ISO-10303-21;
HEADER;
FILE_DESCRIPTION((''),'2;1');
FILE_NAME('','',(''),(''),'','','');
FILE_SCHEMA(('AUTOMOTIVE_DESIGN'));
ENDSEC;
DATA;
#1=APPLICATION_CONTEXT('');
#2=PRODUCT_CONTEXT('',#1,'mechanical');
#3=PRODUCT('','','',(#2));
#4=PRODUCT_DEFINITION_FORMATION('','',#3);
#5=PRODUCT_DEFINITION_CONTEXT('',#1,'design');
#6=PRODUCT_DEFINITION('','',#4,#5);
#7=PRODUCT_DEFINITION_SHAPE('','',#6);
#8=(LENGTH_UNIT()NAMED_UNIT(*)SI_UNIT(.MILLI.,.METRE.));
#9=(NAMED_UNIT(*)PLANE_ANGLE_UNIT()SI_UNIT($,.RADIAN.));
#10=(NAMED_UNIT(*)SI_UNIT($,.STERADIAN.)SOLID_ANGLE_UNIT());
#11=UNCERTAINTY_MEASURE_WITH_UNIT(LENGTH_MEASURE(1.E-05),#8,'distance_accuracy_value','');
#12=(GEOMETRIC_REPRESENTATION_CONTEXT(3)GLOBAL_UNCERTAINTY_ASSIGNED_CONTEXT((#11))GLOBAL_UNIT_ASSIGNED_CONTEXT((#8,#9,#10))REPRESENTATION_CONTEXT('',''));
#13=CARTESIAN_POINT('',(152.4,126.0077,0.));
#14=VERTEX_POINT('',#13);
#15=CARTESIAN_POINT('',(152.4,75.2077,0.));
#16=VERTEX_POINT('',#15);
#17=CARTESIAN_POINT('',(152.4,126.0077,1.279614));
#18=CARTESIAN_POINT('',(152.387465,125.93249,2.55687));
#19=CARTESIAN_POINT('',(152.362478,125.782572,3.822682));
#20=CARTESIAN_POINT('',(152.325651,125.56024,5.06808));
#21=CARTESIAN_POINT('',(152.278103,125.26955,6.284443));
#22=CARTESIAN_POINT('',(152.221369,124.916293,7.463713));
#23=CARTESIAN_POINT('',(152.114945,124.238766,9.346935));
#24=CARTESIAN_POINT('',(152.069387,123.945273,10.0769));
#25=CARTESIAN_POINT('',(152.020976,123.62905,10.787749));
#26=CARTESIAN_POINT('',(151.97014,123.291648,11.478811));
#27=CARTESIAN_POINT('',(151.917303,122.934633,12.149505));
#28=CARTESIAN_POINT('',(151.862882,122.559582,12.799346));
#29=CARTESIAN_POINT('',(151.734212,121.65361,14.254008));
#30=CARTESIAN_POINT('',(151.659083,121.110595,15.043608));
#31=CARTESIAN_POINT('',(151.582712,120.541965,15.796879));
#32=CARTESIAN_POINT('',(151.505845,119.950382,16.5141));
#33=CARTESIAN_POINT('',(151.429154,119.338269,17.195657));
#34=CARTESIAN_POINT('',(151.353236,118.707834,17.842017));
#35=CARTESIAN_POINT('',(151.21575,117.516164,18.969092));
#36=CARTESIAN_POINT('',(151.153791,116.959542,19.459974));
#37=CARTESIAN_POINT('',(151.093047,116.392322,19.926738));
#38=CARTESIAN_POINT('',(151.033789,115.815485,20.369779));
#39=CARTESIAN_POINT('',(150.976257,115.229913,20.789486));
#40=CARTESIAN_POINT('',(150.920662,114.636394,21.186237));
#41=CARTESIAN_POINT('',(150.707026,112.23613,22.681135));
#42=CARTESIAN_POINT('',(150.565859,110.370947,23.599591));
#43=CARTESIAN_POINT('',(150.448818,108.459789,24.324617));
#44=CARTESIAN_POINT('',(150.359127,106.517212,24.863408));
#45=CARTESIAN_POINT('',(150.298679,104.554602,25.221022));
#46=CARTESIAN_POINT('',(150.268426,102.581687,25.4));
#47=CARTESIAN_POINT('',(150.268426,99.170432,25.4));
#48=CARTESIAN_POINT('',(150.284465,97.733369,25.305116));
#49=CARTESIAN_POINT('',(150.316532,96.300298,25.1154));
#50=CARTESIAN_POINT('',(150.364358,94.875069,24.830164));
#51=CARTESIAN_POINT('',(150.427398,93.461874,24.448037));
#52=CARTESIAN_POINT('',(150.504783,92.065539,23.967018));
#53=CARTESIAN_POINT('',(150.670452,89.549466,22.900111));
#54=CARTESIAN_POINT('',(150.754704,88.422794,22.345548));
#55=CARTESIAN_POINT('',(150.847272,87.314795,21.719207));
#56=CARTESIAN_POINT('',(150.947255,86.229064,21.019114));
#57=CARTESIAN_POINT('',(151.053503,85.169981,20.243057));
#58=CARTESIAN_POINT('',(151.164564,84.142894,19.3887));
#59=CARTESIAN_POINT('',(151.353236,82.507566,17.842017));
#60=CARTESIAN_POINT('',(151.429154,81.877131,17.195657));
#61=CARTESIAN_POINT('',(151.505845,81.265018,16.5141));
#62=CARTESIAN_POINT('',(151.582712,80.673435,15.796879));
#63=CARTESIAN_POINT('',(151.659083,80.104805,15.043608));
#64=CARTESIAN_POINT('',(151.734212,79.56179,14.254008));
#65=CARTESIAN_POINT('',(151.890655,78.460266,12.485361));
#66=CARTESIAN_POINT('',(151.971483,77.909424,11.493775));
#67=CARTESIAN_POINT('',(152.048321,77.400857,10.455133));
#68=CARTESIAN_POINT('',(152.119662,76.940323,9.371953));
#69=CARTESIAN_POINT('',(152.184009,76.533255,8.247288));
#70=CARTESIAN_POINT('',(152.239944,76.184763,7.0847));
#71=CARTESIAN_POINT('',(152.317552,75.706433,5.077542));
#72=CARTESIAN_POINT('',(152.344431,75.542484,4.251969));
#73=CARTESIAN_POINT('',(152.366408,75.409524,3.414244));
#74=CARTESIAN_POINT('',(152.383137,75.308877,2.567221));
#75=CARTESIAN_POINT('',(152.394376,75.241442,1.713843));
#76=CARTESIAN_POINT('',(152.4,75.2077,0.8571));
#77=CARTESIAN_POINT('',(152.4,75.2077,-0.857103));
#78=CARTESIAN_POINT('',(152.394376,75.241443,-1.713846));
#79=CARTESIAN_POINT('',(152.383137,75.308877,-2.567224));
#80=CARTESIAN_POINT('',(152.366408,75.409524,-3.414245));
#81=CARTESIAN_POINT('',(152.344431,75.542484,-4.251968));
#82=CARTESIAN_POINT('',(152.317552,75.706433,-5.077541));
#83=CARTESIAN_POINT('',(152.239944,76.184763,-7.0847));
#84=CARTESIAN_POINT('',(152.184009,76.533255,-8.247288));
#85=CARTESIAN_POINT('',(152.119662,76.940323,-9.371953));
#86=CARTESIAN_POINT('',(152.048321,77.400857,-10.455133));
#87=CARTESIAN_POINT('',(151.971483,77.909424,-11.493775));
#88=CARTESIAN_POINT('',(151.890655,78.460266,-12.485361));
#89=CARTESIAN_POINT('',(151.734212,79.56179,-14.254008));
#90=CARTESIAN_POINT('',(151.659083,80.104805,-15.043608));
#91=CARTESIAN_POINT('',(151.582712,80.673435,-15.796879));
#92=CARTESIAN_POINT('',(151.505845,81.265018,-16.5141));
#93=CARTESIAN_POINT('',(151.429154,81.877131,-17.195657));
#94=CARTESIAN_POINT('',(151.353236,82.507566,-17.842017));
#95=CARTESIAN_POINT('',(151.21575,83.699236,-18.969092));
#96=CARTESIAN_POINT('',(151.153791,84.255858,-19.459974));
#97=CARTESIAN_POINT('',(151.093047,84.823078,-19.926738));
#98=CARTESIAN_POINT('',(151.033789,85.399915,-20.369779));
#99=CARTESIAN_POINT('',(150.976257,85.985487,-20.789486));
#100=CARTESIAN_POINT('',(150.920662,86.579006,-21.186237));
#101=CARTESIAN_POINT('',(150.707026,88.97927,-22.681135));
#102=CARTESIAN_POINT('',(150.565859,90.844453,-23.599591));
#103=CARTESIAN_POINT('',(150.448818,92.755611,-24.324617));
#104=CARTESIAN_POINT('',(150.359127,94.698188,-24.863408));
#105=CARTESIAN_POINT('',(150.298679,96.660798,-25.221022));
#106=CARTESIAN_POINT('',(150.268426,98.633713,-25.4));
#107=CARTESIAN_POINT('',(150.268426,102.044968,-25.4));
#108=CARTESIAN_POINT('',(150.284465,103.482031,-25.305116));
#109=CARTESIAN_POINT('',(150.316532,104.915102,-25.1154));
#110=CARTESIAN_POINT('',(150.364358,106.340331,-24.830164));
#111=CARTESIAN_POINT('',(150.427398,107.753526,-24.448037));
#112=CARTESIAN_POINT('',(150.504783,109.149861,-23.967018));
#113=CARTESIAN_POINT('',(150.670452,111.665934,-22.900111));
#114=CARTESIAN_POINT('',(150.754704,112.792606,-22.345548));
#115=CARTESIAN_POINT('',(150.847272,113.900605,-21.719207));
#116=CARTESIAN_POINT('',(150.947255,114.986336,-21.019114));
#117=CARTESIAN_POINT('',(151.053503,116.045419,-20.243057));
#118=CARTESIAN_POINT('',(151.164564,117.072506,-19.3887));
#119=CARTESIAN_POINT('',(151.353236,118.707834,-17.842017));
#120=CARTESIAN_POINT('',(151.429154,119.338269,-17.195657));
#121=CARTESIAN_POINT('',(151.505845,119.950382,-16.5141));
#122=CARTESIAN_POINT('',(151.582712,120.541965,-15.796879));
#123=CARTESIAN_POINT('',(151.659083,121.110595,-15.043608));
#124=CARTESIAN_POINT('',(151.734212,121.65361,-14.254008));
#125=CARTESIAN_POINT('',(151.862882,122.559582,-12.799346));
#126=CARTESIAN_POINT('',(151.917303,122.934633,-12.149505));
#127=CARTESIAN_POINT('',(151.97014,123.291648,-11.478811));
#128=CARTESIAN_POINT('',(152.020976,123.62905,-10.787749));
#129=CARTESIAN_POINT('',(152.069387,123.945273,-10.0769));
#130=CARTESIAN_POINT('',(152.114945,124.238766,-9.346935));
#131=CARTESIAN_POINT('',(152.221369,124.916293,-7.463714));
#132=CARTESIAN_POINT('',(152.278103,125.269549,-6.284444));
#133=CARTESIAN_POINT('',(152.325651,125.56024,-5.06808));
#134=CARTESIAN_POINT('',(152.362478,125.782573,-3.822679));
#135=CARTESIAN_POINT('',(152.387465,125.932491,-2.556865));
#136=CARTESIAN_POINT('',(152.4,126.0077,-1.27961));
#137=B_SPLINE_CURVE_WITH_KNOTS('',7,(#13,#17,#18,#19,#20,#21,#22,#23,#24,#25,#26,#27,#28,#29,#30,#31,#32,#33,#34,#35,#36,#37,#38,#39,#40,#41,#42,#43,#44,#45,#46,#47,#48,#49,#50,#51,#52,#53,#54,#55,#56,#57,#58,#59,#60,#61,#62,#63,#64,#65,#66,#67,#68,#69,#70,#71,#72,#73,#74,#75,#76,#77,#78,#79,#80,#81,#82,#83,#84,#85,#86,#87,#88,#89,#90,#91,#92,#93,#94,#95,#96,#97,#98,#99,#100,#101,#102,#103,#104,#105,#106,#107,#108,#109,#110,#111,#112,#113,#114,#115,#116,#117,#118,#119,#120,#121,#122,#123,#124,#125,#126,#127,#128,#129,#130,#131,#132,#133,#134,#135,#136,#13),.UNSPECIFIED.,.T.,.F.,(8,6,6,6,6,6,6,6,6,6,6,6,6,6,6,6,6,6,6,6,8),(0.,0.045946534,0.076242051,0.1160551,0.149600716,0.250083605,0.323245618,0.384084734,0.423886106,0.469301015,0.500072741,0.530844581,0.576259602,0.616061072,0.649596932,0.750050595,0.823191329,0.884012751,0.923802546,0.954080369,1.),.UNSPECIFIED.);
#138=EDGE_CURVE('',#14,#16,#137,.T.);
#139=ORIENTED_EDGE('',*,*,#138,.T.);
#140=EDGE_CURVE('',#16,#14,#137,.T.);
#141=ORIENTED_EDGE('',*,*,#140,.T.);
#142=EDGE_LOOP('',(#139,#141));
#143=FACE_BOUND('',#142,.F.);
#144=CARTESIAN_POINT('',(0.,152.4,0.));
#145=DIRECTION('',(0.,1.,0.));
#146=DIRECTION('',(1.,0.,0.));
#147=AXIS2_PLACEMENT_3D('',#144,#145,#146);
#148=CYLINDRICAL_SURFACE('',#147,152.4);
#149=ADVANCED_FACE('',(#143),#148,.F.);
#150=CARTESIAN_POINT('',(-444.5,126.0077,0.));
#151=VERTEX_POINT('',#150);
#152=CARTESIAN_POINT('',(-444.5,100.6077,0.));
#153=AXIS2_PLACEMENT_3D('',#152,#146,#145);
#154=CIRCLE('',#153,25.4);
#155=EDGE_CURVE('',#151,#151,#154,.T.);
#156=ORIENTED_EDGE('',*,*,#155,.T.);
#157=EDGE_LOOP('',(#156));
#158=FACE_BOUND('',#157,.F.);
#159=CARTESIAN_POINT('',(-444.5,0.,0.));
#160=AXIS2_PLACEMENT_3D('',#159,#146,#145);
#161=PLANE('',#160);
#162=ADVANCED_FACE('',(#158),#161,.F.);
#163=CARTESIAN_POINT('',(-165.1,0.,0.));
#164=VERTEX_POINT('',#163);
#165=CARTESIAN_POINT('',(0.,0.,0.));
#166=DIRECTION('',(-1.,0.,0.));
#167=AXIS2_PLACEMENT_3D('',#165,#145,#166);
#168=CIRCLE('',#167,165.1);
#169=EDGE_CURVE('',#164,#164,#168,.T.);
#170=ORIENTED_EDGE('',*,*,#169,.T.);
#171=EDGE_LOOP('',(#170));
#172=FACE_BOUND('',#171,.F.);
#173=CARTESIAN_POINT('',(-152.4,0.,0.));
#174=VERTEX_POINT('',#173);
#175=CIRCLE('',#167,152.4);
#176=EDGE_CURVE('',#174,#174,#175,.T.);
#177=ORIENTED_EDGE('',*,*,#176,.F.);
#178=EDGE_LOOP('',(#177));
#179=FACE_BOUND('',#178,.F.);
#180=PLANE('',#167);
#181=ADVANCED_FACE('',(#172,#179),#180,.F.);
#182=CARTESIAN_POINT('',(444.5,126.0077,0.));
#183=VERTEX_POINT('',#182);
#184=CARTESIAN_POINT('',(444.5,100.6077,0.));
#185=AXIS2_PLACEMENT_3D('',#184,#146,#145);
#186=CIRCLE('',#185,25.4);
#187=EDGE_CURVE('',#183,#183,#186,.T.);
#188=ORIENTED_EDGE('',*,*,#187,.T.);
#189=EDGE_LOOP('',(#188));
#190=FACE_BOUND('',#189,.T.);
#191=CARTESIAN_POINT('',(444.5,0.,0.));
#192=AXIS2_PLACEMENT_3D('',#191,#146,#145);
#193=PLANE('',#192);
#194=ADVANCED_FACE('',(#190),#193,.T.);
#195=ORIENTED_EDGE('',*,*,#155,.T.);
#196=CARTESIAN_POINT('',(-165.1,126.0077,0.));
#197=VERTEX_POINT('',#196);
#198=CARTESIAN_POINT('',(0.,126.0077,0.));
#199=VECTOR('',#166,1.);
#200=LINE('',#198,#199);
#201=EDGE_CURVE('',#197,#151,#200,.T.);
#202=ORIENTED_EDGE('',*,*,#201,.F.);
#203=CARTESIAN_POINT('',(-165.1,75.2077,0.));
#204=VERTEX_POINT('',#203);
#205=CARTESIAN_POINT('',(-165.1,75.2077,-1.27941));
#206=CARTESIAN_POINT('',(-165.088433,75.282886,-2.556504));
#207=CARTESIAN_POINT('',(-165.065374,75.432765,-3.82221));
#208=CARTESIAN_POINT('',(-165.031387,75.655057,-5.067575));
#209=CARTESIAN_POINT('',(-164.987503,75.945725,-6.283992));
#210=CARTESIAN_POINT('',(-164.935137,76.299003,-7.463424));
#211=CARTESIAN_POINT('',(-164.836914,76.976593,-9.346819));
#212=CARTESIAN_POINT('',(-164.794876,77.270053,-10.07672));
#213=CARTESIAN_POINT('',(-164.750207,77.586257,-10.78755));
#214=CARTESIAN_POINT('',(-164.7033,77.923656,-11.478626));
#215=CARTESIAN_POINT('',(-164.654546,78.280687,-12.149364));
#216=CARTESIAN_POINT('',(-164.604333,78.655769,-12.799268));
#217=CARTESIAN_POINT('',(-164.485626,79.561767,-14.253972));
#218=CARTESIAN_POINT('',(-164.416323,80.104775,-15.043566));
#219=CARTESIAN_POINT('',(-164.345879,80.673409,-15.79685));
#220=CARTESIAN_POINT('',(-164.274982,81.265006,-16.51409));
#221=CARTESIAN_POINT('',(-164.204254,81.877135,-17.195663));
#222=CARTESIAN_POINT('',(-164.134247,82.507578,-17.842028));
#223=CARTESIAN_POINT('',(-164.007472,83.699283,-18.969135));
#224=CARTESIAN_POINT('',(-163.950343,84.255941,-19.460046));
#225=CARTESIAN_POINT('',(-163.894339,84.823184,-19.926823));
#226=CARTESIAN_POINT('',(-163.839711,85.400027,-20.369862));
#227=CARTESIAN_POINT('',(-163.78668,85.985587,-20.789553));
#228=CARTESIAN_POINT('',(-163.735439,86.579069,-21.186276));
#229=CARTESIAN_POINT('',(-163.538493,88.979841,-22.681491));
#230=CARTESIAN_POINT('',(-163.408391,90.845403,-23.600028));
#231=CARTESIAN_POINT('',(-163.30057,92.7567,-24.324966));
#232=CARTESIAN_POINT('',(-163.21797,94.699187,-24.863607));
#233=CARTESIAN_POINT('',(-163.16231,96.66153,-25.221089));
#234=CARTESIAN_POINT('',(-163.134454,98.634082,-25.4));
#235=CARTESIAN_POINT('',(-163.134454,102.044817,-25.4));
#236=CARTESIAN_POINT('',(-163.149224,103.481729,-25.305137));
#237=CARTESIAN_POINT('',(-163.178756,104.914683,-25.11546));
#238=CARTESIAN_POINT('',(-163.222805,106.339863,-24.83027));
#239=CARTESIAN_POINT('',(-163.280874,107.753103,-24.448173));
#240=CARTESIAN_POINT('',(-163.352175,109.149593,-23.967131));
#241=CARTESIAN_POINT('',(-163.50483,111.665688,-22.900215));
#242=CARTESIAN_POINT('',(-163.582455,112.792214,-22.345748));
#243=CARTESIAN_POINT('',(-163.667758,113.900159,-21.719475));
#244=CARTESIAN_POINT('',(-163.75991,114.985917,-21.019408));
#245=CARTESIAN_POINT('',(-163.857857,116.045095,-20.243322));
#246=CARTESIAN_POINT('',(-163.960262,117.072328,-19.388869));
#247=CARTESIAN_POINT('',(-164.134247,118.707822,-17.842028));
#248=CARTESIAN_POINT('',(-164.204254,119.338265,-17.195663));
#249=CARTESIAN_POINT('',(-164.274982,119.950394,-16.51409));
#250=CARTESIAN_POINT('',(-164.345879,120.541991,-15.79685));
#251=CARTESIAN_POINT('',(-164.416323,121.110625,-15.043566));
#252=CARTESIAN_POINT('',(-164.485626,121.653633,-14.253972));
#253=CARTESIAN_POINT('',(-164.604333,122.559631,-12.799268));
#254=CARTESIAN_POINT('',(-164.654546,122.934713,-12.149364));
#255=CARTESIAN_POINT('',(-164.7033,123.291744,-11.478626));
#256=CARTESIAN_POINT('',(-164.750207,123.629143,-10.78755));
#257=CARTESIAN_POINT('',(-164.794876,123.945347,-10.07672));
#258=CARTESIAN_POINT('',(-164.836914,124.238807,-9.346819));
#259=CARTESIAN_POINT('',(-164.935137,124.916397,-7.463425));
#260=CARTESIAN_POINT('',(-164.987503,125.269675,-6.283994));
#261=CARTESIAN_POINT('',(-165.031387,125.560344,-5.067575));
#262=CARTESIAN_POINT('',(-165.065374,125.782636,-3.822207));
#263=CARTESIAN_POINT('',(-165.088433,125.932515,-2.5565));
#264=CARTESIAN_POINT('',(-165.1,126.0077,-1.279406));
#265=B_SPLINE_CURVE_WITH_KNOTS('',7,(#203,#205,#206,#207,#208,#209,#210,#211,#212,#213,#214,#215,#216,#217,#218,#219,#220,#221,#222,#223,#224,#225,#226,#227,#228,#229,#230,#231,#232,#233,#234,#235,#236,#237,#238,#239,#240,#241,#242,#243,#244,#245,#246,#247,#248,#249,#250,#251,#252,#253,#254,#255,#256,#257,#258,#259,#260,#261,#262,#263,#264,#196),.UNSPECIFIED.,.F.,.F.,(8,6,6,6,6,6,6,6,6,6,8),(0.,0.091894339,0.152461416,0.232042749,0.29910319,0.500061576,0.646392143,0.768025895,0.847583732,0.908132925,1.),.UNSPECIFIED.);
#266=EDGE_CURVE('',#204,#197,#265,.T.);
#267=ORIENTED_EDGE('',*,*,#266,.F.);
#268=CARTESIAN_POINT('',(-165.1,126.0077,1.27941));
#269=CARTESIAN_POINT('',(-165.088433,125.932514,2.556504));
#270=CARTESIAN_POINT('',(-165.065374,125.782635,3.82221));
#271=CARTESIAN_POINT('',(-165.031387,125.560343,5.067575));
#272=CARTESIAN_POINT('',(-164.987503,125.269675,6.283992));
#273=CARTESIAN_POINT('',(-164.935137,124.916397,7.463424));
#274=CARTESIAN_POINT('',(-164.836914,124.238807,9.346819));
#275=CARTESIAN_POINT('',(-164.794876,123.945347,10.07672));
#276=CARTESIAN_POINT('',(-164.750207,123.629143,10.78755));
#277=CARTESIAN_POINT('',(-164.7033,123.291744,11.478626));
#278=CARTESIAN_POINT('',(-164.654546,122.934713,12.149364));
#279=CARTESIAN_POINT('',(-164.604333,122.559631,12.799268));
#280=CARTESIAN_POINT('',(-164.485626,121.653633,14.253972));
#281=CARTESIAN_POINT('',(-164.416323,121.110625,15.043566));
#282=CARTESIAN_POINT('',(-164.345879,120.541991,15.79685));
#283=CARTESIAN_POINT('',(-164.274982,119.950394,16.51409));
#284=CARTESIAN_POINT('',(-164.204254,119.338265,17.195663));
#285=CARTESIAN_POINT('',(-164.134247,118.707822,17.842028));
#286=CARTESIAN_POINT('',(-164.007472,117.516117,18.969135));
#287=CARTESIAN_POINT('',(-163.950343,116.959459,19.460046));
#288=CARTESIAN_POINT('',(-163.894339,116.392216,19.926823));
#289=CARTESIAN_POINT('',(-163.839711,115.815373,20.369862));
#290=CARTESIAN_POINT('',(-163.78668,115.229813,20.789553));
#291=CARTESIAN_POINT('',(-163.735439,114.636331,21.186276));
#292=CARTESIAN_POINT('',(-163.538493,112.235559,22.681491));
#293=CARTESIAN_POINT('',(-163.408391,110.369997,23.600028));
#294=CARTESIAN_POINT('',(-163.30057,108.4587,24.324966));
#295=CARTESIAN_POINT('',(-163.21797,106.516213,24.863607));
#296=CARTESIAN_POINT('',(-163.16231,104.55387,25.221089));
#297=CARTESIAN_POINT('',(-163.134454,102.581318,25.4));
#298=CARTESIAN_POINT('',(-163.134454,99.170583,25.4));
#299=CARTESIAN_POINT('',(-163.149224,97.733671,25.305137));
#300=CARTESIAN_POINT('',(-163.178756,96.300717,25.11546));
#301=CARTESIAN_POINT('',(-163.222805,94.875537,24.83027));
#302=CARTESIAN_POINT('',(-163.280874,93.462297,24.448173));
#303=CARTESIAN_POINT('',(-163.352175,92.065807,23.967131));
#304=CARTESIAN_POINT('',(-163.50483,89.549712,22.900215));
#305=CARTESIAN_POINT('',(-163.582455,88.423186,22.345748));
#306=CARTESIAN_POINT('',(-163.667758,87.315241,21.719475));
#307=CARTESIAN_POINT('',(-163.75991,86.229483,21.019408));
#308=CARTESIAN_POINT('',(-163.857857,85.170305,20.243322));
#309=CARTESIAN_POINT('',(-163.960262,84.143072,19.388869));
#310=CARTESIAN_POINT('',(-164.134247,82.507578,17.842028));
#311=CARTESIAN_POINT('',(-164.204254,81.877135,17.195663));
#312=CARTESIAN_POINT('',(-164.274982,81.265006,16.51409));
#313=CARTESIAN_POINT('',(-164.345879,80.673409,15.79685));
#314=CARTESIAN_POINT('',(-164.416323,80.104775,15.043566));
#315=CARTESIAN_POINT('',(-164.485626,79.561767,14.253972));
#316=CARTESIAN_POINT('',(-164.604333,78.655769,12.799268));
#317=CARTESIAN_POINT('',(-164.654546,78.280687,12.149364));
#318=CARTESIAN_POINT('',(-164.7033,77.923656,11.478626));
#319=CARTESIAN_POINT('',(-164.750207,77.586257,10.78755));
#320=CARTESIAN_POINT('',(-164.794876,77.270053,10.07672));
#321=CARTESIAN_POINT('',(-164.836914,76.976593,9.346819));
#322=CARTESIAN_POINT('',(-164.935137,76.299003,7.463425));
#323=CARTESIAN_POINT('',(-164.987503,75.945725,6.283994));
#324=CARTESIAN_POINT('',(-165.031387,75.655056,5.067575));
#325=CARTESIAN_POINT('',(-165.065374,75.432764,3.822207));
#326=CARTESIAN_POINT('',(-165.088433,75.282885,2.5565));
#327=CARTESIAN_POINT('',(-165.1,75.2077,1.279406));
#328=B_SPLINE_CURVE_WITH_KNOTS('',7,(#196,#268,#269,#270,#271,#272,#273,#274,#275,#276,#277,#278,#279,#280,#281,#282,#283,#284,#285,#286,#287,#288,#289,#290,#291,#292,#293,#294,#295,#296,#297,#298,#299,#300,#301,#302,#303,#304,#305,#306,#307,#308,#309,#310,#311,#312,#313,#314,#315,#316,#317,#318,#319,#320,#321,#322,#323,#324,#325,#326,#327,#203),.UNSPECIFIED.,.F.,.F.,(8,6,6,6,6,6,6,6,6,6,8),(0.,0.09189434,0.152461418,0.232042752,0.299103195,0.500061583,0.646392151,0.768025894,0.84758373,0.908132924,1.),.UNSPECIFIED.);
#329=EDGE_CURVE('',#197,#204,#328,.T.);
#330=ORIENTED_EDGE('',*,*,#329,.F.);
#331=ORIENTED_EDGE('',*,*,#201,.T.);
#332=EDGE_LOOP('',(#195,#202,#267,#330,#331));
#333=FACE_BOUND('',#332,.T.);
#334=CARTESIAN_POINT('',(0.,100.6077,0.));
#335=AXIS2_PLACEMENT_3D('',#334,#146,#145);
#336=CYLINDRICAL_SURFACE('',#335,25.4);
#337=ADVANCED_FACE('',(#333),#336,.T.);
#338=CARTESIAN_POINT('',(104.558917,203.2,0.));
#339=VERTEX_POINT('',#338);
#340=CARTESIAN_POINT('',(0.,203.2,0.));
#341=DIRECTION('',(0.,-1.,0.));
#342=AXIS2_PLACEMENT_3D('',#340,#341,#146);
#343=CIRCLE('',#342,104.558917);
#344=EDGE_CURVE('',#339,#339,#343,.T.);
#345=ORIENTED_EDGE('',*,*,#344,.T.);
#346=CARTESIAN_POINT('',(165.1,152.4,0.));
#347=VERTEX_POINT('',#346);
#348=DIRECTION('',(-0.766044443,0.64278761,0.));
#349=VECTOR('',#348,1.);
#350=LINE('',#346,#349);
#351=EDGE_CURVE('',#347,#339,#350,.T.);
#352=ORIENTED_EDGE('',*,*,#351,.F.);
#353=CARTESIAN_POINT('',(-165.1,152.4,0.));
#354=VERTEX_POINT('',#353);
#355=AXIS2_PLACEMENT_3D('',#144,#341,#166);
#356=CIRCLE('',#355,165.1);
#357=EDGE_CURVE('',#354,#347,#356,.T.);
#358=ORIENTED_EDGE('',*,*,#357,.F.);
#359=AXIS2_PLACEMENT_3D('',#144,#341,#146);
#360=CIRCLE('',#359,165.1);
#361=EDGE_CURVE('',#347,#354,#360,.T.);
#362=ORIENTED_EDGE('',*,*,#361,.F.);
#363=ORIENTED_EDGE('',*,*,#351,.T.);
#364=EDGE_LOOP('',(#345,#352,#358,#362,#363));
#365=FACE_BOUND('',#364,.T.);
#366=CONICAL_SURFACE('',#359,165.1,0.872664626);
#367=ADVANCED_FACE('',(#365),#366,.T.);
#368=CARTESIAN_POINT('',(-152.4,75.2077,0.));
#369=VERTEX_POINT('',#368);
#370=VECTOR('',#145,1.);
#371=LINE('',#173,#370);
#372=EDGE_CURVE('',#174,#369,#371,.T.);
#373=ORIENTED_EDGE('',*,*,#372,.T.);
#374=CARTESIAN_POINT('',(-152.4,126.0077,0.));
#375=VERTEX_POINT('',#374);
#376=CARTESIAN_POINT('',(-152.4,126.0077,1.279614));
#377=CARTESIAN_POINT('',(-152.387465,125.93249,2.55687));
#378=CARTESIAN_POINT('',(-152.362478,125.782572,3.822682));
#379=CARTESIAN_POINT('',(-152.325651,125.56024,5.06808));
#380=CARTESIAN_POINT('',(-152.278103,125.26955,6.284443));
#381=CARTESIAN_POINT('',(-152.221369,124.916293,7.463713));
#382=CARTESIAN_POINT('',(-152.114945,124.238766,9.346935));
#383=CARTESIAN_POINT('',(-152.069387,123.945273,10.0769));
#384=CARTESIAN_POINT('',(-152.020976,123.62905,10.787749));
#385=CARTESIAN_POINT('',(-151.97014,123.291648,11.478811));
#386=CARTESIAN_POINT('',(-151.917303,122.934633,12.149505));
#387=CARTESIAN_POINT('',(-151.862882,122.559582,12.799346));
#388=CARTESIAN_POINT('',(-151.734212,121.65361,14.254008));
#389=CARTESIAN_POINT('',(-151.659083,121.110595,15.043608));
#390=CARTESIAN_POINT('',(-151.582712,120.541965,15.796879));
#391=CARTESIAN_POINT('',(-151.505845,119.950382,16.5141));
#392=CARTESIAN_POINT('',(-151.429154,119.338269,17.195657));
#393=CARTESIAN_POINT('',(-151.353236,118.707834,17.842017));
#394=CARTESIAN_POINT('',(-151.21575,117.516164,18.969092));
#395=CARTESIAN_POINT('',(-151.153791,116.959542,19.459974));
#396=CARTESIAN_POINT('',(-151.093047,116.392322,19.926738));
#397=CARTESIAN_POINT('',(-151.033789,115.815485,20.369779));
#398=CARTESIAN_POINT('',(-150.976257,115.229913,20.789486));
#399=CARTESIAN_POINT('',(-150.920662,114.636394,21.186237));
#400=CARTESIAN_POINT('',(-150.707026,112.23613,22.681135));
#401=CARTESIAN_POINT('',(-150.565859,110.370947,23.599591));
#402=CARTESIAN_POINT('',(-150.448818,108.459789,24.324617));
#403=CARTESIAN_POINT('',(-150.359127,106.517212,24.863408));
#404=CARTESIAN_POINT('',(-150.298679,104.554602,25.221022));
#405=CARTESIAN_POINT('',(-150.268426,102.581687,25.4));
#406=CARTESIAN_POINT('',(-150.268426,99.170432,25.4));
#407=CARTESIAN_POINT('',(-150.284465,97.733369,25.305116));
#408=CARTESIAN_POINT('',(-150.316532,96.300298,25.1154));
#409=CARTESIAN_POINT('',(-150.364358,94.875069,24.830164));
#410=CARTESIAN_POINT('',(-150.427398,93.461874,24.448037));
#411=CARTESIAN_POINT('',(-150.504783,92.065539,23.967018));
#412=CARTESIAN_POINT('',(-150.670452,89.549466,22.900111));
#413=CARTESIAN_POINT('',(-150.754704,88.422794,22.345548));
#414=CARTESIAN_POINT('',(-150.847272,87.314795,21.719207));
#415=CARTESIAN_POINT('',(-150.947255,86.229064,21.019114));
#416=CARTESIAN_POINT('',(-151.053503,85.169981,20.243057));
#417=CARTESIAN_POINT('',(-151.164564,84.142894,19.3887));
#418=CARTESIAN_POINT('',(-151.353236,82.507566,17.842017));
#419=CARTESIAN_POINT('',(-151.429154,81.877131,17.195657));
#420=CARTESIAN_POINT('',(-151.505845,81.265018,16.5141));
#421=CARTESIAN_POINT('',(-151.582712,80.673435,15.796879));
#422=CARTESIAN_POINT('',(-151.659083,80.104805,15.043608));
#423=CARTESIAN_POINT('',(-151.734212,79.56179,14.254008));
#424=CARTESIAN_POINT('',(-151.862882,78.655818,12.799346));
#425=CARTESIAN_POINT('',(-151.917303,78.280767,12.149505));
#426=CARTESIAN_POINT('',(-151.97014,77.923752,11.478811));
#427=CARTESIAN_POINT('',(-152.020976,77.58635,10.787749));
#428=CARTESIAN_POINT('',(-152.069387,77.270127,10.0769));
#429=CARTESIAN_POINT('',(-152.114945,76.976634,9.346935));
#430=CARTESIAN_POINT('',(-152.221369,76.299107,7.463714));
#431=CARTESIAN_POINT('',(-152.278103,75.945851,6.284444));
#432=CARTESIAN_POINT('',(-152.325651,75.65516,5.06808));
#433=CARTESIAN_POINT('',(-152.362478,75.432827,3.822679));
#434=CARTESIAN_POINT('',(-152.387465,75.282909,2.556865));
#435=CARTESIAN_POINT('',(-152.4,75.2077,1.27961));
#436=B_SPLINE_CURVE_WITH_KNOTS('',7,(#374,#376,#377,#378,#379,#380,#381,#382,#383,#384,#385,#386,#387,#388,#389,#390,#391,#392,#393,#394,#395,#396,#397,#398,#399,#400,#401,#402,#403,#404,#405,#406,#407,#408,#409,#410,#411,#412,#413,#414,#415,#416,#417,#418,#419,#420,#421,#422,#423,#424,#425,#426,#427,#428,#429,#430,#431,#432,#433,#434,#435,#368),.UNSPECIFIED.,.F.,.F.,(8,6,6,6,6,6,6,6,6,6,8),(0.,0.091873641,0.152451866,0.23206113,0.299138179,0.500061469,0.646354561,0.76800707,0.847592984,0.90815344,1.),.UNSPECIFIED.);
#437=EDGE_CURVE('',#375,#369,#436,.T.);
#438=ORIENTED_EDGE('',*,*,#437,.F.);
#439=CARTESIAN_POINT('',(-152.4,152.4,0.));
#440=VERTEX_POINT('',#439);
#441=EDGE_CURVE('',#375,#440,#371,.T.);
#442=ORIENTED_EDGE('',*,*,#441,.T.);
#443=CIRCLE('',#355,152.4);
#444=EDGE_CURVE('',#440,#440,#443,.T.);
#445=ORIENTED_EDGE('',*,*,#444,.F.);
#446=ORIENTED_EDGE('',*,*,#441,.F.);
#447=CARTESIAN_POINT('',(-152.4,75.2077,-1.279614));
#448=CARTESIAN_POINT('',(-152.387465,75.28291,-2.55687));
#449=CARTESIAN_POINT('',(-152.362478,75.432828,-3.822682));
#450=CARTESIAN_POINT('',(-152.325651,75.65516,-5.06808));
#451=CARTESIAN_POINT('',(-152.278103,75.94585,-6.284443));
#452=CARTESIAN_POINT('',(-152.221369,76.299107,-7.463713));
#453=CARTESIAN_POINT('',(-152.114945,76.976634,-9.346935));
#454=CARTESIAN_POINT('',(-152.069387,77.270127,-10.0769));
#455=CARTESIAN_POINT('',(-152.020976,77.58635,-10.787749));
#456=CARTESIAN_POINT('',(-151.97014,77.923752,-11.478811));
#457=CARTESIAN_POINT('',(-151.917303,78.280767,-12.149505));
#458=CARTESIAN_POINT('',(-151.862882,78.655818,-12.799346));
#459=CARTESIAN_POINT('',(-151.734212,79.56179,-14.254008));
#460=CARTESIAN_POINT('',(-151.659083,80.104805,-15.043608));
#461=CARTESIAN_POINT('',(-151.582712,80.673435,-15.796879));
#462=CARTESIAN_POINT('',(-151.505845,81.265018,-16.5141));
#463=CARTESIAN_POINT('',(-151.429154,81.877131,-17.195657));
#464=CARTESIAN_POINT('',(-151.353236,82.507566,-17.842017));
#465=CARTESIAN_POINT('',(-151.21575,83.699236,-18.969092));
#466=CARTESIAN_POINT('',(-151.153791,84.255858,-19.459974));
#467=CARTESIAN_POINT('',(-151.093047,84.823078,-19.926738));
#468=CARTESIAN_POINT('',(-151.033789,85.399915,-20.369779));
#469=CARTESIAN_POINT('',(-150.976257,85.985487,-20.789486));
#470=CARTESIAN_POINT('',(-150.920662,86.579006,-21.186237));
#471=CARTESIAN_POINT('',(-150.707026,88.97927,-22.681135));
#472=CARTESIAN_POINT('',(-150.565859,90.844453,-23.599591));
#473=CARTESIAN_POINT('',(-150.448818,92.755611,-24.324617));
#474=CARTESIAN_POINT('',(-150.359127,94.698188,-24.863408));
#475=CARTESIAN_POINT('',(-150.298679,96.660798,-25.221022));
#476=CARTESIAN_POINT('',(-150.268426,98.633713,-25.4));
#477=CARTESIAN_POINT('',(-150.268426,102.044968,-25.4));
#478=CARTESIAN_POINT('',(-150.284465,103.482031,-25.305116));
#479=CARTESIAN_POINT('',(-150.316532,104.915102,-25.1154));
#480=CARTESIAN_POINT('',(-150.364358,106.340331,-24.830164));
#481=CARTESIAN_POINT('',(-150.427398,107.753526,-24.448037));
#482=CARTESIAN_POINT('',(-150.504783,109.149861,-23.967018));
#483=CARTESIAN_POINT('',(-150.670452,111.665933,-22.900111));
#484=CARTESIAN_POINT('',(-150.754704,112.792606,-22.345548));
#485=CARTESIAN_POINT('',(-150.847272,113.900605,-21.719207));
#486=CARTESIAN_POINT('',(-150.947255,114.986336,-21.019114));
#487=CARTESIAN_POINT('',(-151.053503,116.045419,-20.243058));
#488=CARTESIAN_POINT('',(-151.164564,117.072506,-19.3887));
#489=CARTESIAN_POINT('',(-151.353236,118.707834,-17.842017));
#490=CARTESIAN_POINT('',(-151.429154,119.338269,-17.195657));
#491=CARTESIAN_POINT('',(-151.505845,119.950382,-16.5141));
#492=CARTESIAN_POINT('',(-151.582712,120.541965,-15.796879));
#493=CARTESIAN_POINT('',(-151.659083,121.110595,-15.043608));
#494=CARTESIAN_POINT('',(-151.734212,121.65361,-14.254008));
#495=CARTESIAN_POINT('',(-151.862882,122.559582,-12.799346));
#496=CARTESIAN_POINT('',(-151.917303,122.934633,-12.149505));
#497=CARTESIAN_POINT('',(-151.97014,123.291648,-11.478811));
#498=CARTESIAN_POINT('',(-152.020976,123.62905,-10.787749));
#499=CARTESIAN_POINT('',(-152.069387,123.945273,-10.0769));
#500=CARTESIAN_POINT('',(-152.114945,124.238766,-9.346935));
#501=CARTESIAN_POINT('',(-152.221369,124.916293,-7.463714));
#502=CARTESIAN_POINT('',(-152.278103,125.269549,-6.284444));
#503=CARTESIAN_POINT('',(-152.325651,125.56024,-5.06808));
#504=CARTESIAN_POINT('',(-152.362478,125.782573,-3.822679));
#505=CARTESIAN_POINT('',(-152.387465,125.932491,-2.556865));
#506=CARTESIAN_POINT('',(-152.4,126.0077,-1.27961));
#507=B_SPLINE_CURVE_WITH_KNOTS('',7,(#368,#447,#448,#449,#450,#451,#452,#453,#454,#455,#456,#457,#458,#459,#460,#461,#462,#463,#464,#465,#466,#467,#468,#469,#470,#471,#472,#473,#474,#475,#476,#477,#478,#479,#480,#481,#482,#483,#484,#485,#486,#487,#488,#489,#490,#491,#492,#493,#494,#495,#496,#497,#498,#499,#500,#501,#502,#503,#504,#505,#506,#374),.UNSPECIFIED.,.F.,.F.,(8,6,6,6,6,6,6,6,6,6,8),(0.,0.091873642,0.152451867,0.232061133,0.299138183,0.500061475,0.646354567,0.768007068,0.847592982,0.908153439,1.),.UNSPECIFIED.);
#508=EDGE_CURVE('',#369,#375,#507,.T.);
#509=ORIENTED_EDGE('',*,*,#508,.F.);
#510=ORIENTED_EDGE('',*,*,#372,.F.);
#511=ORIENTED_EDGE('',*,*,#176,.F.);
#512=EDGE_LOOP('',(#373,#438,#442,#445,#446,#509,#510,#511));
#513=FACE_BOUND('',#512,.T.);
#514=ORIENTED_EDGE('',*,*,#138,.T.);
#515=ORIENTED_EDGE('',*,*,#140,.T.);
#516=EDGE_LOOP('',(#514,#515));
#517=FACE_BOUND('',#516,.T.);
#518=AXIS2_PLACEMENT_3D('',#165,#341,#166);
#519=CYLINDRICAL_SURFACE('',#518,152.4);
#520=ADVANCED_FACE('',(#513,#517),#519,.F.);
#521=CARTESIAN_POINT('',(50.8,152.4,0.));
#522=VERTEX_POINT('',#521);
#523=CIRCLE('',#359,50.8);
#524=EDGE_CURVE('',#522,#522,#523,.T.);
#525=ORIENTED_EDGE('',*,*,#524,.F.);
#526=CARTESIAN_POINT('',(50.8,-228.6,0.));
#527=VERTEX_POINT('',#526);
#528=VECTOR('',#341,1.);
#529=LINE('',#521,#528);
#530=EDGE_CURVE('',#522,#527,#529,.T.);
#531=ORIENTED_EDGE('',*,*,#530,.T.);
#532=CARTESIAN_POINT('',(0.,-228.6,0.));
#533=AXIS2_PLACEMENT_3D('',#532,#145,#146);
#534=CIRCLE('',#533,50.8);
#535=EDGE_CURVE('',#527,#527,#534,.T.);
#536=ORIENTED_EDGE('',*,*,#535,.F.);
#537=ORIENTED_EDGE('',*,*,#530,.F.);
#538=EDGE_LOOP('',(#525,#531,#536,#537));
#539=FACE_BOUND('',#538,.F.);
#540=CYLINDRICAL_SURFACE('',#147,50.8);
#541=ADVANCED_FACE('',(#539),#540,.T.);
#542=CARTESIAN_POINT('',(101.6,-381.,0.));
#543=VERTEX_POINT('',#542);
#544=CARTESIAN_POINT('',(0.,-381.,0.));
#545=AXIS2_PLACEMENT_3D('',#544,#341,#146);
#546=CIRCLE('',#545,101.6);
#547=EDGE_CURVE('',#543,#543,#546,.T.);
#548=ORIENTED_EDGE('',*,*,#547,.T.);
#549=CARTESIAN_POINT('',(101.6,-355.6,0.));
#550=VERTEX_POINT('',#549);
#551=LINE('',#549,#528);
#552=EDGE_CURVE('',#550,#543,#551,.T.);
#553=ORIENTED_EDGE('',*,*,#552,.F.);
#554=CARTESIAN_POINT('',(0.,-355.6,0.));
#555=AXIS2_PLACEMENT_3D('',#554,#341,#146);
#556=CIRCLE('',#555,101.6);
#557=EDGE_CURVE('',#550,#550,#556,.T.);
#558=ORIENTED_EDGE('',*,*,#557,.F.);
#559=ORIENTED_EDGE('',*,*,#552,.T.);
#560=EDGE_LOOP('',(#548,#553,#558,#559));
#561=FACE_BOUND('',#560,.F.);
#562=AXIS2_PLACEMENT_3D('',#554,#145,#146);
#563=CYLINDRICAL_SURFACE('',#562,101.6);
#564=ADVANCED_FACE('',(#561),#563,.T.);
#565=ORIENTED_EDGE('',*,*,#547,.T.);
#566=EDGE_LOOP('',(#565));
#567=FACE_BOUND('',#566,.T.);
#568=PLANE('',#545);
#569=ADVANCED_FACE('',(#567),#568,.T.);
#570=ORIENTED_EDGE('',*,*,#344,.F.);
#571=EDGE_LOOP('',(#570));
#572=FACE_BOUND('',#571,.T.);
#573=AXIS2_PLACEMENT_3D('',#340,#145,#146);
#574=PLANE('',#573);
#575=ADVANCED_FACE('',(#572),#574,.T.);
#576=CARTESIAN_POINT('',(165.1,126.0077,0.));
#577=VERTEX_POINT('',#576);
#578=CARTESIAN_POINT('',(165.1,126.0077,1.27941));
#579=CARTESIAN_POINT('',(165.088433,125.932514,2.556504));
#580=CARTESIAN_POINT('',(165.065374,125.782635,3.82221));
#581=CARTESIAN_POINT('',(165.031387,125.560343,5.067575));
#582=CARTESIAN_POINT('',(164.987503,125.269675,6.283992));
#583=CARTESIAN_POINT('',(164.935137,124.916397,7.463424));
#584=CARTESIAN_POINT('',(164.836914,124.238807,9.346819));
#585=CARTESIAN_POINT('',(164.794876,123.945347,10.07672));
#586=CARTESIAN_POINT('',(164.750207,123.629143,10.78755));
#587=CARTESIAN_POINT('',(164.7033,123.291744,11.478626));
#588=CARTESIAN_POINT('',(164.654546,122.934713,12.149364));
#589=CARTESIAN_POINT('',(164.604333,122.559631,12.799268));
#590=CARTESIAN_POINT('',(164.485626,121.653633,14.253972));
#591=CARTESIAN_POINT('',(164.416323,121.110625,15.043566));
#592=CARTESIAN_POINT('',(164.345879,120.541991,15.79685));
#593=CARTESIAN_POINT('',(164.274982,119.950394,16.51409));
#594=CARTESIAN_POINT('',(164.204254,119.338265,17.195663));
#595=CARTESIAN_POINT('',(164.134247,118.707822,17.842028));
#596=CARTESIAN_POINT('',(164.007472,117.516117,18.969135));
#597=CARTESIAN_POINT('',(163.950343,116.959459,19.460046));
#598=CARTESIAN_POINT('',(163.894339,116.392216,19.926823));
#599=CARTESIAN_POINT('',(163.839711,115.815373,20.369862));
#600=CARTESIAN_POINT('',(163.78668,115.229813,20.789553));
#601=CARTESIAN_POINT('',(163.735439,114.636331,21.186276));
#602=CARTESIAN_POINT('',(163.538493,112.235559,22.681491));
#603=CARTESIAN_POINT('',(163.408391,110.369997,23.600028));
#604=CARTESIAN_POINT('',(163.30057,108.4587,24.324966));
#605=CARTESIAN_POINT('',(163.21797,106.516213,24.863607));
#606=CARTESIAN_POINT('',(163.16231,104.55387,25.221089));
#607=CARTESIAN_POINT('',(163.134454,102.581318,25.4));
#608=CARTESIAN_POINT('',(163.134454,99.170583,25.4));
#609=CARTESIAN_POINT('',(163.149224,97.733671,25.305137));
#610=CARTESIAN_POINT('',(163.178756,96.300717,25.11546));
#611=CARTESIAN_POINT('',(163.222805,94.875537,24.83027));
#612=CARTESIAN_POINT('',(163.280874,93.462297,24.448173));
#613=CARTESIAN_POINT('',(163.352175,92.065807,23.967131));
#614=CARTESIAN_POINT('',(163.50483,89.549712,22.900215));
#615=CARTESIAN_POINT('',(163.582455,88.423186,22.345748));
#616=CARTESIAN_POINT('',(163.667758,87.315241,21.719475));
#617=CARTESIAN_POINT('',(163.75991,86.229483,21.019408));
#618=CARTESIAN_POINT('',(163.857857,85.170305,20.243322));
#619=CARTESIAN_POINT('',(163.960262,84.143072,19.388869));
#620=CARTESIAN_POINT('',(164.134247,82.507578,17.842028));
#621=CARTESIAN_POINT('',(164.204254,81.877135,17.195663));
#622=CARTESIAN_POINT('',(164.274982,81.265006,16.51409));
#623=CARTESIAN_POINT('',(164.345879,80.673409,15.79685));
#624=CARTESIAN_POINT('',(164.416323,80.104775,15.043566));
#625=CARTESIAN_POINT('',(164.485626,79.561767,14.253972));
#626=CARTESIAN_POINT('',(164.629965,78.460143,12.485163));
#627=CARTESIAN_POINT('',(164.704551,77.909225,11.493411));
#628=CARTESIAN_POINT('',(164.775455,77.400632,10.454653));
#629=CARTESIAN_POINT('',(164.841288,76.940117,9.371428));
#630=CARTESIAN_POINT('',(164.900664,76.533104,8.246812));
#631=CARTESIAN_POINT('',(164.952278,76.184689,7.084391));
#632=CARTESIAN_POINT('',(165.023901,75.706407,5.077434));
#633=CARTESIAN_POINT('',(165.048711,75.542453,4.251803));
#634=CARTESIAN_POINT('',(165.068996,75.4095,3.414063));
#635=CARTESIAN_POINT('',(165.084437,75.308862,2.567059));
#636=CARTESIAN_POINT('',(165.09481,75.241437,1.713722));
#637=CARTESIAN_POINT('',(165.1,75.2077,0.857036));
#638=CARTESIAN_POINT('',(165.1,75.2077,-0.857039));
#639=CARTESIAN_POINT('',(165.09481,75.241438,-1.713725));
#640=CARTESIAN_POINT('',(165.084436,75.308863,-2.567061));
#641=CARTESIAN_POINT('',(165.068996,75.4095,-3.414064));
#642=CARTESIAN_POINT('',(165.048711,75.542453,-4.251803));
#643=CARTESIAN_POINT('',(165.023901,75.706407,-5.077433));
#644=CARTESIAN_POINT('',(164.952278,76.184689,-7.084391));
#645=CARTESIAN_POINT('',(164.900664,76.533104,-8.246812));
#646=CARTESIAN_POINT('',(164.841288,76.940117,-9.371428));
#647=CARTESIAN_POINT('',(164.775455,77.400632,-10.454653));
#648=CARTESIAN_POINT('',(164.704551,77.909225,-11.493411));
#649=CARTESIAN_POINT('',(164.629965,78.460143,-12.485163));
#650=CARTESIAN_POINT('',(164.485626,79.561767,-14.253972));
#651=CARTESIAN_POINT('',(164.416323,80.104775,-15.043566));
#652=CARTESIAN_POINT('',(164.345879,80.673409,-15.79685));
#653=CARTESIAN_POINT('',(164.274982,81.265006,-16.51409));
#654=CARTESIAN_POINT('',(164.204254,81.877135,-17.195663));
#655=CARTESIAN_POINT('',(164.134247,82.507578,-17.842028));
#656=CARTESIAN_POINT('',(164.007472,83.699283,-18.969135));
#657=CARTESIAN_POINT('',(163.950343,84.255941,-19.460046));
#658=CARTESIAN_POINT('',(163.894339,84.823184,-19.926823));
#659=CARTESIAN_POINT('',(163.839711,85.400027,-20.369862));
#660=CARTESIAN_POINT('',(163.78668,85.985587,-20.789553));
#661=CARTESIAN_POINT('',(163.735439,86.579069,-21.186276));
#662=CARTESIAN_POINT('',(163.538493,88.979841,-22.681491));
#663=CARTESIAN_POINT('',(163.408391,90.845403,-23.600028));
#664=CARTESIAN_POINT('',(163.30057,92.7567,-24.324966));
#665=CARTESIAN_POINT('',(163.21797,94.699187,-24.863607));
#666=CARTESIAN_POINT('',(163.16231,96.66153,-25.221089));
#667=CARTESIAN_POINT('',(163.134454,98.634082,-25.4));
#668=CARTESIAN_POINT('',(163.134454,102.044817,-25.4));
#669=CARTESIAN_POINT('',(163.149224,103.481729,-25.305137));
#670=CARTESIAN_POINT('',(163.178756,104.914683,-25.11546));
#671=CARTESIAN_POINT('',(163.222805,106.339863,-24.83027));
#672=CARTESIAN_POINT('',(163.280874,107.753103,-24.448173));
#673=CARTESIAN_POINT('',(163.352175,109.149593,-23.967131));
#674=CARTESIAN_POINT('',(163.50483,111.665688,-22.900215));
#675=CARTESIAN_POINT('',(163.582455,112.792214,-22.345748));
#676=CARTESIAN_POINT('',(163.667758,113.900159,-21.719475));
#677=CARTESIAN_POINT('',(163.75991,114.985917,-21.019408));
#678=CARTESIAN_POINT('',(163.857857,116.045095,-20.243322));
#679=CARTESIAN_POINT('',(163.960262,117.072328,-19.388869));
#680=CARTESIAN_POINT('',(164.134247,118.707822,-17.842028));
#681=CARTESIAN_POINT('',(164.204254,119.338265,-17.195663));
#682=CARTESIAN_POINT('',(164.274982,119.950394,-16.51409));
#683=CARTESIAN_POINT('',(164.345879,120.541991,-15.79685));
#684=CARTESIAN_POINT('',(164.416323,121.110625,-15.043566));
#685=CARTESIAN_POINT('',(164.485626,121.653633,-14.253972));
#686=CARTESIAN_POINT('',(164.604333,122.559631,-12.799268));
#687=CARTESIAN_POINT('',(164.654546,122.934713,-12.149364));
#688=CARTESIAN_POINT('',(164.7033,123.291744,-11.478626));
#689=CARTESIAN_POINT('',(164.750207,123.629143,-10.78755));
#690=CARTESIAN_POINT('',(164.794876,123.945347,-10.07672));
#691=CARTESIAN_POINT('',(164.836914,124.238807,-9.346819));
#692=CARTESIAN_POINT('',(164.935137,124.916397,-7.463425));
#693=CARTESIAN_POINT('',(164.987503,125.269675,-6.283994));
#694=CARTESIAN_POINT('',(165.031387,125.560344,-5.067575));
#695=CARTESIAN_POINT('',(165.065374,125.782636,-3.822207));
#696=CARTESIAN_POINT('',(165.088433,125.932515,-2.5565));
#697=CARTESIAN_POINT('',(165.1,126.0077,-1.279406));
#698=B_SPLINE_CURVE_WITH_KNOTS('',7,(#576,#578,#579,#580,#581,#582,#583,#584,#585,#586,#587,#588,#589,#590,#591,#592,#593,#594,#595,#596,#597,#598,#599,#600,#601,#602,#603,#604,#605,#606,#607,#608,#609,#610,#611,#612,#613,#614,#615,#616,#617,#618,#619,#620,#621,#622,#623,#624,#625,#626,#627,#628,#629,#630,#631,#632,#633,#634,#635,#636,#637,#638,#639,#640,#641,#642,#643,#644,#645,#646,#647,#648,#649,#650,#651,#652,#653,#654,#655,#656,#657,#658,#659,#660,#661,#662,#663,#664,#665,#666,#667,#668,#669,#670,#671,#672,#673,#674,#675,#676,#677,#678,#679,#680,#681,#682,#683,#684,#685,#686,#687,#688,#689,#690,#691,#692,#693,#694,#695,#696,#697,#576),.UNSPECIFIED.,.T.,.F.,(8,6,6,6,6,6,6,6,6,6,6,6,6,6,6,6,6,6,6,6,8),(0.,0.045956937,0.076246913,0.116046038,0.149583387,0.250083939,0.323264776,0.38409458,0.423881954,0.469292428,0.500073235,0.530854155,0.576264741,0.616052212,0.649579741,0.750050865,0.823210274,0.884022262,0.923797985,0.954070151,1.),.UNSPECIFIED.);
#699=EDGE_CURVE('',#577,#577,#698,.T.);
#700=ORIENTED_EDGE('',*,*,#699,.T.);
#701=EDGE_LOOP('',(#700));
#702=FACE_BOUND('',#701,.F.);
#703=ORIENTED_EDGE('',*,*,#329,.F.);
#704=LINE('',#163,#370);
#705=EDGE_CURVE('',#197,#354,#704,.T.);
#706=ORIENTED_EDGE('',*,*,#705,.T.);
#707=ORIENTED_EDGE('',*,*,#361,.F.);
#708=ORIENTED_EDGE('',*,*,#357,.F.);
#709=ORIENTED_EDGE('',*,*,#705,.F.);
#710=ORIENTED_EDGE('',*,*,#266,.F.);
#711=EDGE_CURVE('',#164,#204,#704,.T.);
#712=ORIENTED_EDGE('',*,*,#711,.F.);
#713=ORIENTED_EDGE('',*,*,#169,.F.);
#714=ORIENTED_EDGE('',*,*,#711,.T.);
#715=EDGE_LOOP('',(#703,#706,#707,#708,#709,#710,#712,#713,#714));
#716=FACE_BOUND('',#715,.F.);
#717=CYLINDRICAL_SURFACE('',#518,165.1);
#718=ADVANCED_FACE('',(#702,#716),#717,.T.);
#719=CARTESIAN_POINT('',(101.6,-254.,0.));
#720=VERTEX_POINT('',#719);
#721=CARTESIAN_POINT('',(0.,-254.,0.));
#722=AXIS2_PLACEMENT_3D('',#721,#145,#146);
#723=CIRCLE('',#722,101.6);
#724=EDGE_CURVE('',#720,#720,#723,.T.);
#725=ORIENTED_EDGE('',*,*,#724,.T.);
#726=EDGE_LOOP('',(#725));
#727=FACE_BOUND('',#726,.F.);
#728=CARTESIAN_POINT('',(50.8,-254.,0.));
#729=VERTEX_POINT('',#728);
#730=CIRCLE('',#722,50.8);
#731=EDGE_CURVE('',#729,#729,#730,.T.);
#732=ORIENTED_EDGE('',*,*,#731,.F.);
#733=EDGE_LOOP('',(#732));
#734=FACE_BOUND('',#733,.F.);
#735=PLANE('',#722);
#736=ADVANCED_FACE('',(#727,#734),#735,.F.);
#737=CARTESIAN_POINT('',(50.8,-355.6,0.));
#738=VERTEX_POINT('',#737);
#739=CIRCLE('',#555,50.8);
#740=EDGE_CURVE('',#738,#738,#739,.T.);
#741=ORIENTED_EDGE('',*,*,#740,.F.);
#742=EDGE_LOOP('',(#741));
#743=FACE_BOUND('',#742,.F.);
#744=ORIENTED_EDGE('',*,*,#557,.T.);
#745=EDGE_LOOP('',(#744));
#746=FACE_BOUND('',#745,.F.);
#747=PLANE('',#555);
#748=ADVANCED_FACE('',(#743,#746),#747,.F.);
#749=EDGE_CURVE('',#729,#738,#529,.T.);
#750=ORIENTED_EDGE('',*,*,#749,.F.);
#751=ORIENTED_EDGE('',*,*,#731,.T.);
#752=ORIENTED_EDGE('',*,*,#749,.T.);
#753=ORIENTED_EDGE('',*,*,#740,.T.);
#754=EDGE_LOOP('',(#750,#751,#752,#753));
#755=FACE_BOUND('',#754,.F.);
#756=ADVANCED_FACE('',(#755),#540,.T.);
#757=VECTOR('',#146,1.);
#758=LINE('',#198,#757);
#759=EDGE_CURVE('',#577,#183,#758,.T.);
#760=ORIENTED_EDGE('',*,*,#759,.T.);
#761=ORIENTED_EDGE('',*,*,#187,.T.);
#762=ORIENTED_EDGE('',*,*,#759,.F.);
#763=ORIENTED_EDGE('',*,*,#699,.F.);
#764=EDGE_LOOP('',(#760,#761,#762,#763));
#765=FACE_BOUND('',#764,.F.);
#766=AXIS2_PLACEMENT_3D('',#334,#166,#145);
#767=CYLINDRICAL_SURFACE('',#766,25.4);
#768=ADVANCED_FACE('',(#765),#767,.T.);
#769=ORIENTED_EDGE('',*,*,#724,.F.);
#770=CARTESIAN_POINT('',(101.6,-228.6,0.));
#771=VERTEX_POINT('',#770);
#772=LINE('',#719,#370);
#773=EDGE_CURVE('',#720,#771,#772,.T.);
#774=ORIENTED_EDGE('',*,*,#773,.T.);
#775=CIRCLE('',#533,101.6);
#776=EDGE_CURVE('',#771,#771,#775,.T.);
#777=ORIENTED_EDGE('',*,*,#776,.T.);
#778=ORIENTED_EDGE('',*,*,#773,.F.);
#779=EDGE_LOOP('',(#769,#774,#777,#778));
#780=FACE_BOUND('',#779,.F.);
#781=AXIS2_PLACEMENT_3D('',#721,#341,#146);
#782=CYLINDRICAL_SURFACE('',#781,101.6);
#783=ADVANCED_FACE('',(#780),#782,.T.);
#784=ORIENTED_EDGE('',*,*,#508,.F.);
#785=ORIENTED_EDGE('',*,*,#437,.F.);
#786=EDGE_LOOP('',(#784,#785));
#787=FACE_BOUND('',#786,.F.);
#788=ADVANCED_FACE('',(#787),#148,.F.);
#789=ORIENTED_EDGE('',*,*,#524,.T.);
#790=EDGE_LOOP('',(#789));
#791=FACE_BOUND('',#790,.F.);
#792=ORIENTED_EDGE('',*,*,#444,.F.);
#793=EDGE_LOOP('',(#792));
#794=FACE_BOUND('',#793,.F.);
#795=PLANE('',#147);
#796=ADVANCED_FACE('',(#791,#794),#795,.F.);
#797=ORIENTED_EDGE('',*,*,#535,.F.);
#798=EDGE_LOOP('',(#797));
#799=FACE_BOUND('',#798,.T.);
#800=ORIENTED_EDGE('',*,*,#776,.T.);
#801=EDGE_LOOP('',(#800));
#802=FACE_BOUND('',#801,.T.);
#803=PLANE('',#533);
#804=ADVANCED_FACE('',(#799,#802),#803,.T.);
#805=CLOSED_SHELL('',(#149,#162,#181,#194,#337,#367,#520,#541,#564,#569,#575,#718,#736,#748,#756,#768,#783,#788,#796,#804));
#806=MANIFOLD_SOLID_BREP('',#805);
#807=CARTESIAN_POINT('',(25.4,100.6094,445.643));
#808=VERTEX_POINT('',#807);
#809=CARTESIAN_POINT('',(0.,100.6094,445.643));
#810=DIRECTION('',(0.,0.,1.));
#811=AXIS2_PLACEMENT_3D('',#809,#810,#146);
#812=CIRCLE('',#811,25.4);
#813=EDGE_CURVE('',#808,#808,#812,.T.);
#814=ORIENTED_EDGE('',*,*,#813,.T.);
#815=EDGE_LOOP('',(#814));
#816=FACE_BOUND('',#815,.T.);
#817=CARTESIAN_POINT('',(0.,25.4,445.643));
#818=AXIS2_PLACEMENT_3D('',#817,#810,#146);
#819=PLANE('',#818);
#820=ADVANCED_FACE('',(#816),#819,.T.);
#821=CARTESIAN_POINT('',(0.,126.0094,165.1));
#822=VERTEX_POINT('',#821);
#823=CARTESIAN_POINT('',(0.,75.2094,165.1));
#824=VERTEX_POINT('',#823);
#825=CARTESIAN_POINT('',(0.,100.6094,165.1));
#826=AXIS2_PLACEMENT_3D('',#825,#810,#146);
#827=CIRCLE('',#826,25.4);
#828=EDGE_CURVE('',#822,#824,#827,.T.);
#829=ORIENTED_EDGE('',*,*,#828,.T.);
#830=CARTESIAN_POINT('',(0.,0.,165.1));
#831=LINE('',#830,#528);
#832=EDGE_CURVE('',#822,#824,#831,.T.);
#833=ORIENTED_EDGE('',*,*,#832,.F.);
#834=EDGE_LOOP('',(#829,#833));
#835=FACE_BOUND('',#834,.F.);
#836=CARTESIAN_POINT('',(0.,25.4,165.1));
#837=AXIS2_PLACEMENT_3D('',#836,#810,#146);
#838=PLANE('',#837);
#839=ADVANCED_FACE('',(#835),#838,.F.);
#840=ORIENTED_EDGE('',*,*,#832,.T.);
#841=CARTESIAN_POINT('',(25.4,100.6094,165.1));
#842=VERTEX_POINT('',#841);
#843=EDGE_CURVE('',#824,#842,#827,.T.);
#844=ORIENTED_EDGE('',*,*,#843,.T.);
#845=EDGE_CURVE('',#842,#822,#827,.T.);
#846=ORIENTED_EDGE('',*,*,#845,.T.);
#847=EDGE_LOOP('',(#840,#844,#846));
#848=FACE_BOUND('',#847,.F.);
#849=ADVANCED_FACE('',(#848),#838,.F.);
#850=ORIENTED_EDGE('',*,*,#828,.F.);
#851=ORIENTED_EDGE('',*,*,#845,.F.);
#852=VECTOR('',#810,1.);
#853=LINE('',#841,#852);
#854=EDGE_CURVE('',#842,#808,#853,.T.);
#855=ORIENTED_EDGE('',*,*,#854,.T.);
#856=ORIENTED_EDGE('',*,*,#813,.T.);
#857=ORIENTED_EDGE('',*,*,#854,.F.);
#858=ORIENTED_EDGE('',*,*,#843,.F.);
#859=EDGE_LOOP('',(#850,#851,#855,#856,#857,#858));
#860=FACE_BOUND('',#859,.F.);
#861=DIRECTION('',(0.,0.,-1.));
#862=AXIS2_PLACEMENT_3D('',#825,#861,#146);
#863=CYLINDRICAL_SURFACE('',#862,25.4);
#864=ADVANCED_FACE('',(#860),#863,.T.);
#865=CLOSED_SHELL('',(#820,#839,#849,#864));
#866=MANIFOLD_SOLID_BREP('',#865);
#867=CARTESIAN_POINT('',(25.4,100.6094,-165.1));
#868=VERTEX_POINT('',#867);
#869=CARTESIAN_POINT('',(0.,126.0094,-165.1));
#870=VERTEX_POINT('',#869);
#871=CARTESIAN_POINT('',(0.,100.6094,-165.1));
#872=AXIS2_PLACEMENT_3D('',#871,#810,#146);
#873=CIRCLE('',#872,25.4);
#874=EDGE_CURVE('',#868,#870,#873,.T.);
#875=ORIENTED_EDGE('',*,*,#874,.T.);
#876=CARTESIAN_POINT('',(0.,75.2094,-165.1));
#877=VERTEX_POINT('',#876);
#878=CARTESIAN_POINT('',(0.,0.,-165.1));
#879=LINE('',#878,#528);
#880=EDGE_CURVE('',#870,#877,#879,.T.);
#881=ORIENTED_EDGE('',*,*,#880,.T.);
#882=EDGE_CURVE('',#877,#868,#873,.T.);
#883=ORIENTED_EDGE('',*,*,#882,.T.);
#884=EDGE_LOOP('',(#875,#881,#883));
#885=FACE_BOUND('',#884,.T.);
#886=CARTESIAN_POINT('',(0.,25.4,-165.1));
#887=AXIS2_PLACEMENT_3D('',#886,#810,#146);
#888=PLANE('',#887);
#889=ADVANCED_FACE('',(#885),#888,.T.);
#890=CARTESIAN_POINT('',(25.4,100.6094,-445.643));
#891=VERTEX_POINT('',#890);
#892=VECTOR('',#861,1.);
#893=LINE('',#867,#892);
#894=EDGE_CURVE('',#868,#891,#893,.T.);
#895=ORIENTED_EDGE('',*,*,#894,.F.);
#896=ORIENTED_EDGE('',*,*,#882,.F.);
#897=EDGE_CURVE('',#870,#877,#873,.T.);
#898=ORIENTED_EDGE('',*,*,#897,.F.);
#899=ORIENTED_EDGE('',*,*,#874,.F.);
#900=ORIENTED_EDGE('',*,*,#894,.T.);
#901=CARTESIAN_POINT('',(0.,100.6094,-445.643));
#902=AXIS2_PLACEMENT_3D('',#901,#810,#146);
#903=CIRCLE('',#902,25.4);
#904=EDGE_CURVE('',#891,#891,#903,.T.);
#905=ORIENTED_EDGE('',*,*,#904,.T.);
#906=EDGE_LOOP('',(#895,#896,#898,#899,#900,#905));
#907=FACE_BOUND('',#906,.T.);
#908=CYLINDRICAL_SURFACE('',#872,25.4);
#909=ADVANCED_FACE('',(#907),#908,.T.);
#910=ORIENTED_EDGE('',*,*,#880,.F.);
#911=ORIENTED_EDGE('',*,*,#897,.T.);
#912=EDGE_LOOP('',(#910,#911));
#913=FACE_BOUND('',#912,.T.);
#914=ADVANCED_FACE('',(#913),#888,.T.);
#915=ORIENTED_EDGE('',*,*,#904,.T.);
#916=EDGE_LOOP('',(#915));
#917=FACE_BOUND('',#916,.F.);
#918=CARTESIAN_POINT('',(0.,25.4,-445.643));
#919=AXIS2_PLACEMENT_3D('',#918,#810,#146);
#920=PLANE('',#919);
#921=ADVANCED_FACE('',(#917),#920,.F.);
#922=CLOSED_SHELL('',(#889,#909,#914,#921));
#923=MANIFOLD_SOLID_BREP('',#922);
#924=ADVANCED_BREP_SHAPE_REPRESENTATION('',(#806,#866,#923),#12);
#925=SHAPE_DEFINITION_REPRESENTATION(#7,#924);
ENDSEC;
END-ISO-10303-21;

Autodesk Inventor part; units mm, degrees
sketch "Sketch1" plane through (0, 0, 0) normal (0, 1, 0) x (-1, 0, 0)
  circle A0 centre (0, 0) radius 152.4
  circle A1 centre (0, 0) radius 165.1
  dimension "d0" = 304.8
  dimension "d1" = 330.2
extrude "Extrusion1" add sketch "Sketch1" along normal blind 152.4
sketch "Sketch2" plane through (0, 0, 0) normal (1, 0, 0) x (0, 1, 0)
  circle A0 centre (100.6077, 0) radius 25.4
  point P0 (0, 0)
  dimension "d4" = 50.8
extrude "Extrusion2" add sketch "Sketch2" along normal mid plane 889
sketch "Sketch4" plane through (0, 152.4, 0) normal (0, 1, 0) x (1, 0, 0)
  circle A0 centre (0, 0) radius 152.4
extrude "Extrusion4" cut sketch "Sketch4" against normal through all
sketch "Sketch5" plane through (0, 152.4, 0) normal (0, 1, 0) x (1, 0, 0)
  circle A0 centre (0, 0) radius 165.1
extrude "Extrusion5" add sketch "Sketch5" along normal blind 50.8 draft -50
sketch "Sketch6" plane through (0, 152.4, 0) normal (0, -1, 0) x (1, 0, 0)
  circle A0 centre (0, 0) radius 104.5589 projected
  circle A1 centre (0, 0) radius 50.8
  dimension "d15" = 101.6
extrude "Extrusion6" add sketch "Sketch6" along normal blind 508 contours A1
sketch "Sketch7" plane through (0, -355.6, 0) normal (0, -1, 0) x (1, 0, 0)
  circle A0 centre (0, 0) radius 104.5589 projected
  circle A1 centre (0, 0) radius 101.6
  dimension "d18" = 203.2
extrude "Extrusion7" add sketch "Sketch7" along normal blind 25.4 contours A1
ref_plane "Work Plane1" through (0, -254, 0) normal (0, 1, 0) x (1, 0, 0)
sketch "Sketch8" plane through (0, -254, 0) normal (0, 1, 0) x (1, 0, 0)
  circle A0 centre (0, 0) radius 101.6
  dimension "d22" = 203.2
extrude "Extrusion8" add sketch "Sketch8" along normal blind 25.4
ref_plane "Work Plane2" through (75.376, -18.8821, -44.9646) normal (1, 0, 0) x (0, 1, 0)
sketch "Sketch9" plane through (75.376, -18.8821, -44.9646) normal (1, 0, 0) x (0, 1, 0)
  circle A0 centre (-604.603, 44.9646) radius 12.7
  point P0 (18.8821, 44.9646)
  dimension "d25" = 25.4
extrude "Extrusion9" cut sketch "Sketch9" against normal through all
ref_plane "Work Plane4" through (0, 0, 0) normal (0, 1, 0) x (1, 0, 0)
ref_plane "Work Plane5" through (0, 25.4, 165.1) normal (0, 0, 1) x (1, 0, 0)
sketch "Sketch11" plane through (0, 25.4, 165.1) normal (0, 0, 1) x (1, 0, 0)
  circle A0 centre (0, 75.2094) radius 25.4
  line L0 (165.1, -25.4) -> (-165.1, -25.4) projected
  point P0 (0, -25.4)
  dimension "d31" = 50.8
  dimension "d32" = 100.6094
extrude "Extrusion11" add sketch "Sketch11" along normal blind 280.543
ref_plane "Work Plane6" through (0, 25.4, -165.1) normal (0, 0, 1) x (1, 0, 0)
sketch "Sketch12" plane through (0, 25.4, -165.1) normal (0, 0, 1) x (1, 0, 0)
  circle A0 centre (0, 75.2094) radius 25.4
  line L0 (165.1, -25.4) -> (-165.1, -25.4) projected
  point P0 (0, -25.4)
  dimension "d36" = 50.8
  dimension "d37" = 100.6094
extrude "Extrusion12" add sketch "Sketch12" against normal blind 280.543
properties part number "capistan upper"
